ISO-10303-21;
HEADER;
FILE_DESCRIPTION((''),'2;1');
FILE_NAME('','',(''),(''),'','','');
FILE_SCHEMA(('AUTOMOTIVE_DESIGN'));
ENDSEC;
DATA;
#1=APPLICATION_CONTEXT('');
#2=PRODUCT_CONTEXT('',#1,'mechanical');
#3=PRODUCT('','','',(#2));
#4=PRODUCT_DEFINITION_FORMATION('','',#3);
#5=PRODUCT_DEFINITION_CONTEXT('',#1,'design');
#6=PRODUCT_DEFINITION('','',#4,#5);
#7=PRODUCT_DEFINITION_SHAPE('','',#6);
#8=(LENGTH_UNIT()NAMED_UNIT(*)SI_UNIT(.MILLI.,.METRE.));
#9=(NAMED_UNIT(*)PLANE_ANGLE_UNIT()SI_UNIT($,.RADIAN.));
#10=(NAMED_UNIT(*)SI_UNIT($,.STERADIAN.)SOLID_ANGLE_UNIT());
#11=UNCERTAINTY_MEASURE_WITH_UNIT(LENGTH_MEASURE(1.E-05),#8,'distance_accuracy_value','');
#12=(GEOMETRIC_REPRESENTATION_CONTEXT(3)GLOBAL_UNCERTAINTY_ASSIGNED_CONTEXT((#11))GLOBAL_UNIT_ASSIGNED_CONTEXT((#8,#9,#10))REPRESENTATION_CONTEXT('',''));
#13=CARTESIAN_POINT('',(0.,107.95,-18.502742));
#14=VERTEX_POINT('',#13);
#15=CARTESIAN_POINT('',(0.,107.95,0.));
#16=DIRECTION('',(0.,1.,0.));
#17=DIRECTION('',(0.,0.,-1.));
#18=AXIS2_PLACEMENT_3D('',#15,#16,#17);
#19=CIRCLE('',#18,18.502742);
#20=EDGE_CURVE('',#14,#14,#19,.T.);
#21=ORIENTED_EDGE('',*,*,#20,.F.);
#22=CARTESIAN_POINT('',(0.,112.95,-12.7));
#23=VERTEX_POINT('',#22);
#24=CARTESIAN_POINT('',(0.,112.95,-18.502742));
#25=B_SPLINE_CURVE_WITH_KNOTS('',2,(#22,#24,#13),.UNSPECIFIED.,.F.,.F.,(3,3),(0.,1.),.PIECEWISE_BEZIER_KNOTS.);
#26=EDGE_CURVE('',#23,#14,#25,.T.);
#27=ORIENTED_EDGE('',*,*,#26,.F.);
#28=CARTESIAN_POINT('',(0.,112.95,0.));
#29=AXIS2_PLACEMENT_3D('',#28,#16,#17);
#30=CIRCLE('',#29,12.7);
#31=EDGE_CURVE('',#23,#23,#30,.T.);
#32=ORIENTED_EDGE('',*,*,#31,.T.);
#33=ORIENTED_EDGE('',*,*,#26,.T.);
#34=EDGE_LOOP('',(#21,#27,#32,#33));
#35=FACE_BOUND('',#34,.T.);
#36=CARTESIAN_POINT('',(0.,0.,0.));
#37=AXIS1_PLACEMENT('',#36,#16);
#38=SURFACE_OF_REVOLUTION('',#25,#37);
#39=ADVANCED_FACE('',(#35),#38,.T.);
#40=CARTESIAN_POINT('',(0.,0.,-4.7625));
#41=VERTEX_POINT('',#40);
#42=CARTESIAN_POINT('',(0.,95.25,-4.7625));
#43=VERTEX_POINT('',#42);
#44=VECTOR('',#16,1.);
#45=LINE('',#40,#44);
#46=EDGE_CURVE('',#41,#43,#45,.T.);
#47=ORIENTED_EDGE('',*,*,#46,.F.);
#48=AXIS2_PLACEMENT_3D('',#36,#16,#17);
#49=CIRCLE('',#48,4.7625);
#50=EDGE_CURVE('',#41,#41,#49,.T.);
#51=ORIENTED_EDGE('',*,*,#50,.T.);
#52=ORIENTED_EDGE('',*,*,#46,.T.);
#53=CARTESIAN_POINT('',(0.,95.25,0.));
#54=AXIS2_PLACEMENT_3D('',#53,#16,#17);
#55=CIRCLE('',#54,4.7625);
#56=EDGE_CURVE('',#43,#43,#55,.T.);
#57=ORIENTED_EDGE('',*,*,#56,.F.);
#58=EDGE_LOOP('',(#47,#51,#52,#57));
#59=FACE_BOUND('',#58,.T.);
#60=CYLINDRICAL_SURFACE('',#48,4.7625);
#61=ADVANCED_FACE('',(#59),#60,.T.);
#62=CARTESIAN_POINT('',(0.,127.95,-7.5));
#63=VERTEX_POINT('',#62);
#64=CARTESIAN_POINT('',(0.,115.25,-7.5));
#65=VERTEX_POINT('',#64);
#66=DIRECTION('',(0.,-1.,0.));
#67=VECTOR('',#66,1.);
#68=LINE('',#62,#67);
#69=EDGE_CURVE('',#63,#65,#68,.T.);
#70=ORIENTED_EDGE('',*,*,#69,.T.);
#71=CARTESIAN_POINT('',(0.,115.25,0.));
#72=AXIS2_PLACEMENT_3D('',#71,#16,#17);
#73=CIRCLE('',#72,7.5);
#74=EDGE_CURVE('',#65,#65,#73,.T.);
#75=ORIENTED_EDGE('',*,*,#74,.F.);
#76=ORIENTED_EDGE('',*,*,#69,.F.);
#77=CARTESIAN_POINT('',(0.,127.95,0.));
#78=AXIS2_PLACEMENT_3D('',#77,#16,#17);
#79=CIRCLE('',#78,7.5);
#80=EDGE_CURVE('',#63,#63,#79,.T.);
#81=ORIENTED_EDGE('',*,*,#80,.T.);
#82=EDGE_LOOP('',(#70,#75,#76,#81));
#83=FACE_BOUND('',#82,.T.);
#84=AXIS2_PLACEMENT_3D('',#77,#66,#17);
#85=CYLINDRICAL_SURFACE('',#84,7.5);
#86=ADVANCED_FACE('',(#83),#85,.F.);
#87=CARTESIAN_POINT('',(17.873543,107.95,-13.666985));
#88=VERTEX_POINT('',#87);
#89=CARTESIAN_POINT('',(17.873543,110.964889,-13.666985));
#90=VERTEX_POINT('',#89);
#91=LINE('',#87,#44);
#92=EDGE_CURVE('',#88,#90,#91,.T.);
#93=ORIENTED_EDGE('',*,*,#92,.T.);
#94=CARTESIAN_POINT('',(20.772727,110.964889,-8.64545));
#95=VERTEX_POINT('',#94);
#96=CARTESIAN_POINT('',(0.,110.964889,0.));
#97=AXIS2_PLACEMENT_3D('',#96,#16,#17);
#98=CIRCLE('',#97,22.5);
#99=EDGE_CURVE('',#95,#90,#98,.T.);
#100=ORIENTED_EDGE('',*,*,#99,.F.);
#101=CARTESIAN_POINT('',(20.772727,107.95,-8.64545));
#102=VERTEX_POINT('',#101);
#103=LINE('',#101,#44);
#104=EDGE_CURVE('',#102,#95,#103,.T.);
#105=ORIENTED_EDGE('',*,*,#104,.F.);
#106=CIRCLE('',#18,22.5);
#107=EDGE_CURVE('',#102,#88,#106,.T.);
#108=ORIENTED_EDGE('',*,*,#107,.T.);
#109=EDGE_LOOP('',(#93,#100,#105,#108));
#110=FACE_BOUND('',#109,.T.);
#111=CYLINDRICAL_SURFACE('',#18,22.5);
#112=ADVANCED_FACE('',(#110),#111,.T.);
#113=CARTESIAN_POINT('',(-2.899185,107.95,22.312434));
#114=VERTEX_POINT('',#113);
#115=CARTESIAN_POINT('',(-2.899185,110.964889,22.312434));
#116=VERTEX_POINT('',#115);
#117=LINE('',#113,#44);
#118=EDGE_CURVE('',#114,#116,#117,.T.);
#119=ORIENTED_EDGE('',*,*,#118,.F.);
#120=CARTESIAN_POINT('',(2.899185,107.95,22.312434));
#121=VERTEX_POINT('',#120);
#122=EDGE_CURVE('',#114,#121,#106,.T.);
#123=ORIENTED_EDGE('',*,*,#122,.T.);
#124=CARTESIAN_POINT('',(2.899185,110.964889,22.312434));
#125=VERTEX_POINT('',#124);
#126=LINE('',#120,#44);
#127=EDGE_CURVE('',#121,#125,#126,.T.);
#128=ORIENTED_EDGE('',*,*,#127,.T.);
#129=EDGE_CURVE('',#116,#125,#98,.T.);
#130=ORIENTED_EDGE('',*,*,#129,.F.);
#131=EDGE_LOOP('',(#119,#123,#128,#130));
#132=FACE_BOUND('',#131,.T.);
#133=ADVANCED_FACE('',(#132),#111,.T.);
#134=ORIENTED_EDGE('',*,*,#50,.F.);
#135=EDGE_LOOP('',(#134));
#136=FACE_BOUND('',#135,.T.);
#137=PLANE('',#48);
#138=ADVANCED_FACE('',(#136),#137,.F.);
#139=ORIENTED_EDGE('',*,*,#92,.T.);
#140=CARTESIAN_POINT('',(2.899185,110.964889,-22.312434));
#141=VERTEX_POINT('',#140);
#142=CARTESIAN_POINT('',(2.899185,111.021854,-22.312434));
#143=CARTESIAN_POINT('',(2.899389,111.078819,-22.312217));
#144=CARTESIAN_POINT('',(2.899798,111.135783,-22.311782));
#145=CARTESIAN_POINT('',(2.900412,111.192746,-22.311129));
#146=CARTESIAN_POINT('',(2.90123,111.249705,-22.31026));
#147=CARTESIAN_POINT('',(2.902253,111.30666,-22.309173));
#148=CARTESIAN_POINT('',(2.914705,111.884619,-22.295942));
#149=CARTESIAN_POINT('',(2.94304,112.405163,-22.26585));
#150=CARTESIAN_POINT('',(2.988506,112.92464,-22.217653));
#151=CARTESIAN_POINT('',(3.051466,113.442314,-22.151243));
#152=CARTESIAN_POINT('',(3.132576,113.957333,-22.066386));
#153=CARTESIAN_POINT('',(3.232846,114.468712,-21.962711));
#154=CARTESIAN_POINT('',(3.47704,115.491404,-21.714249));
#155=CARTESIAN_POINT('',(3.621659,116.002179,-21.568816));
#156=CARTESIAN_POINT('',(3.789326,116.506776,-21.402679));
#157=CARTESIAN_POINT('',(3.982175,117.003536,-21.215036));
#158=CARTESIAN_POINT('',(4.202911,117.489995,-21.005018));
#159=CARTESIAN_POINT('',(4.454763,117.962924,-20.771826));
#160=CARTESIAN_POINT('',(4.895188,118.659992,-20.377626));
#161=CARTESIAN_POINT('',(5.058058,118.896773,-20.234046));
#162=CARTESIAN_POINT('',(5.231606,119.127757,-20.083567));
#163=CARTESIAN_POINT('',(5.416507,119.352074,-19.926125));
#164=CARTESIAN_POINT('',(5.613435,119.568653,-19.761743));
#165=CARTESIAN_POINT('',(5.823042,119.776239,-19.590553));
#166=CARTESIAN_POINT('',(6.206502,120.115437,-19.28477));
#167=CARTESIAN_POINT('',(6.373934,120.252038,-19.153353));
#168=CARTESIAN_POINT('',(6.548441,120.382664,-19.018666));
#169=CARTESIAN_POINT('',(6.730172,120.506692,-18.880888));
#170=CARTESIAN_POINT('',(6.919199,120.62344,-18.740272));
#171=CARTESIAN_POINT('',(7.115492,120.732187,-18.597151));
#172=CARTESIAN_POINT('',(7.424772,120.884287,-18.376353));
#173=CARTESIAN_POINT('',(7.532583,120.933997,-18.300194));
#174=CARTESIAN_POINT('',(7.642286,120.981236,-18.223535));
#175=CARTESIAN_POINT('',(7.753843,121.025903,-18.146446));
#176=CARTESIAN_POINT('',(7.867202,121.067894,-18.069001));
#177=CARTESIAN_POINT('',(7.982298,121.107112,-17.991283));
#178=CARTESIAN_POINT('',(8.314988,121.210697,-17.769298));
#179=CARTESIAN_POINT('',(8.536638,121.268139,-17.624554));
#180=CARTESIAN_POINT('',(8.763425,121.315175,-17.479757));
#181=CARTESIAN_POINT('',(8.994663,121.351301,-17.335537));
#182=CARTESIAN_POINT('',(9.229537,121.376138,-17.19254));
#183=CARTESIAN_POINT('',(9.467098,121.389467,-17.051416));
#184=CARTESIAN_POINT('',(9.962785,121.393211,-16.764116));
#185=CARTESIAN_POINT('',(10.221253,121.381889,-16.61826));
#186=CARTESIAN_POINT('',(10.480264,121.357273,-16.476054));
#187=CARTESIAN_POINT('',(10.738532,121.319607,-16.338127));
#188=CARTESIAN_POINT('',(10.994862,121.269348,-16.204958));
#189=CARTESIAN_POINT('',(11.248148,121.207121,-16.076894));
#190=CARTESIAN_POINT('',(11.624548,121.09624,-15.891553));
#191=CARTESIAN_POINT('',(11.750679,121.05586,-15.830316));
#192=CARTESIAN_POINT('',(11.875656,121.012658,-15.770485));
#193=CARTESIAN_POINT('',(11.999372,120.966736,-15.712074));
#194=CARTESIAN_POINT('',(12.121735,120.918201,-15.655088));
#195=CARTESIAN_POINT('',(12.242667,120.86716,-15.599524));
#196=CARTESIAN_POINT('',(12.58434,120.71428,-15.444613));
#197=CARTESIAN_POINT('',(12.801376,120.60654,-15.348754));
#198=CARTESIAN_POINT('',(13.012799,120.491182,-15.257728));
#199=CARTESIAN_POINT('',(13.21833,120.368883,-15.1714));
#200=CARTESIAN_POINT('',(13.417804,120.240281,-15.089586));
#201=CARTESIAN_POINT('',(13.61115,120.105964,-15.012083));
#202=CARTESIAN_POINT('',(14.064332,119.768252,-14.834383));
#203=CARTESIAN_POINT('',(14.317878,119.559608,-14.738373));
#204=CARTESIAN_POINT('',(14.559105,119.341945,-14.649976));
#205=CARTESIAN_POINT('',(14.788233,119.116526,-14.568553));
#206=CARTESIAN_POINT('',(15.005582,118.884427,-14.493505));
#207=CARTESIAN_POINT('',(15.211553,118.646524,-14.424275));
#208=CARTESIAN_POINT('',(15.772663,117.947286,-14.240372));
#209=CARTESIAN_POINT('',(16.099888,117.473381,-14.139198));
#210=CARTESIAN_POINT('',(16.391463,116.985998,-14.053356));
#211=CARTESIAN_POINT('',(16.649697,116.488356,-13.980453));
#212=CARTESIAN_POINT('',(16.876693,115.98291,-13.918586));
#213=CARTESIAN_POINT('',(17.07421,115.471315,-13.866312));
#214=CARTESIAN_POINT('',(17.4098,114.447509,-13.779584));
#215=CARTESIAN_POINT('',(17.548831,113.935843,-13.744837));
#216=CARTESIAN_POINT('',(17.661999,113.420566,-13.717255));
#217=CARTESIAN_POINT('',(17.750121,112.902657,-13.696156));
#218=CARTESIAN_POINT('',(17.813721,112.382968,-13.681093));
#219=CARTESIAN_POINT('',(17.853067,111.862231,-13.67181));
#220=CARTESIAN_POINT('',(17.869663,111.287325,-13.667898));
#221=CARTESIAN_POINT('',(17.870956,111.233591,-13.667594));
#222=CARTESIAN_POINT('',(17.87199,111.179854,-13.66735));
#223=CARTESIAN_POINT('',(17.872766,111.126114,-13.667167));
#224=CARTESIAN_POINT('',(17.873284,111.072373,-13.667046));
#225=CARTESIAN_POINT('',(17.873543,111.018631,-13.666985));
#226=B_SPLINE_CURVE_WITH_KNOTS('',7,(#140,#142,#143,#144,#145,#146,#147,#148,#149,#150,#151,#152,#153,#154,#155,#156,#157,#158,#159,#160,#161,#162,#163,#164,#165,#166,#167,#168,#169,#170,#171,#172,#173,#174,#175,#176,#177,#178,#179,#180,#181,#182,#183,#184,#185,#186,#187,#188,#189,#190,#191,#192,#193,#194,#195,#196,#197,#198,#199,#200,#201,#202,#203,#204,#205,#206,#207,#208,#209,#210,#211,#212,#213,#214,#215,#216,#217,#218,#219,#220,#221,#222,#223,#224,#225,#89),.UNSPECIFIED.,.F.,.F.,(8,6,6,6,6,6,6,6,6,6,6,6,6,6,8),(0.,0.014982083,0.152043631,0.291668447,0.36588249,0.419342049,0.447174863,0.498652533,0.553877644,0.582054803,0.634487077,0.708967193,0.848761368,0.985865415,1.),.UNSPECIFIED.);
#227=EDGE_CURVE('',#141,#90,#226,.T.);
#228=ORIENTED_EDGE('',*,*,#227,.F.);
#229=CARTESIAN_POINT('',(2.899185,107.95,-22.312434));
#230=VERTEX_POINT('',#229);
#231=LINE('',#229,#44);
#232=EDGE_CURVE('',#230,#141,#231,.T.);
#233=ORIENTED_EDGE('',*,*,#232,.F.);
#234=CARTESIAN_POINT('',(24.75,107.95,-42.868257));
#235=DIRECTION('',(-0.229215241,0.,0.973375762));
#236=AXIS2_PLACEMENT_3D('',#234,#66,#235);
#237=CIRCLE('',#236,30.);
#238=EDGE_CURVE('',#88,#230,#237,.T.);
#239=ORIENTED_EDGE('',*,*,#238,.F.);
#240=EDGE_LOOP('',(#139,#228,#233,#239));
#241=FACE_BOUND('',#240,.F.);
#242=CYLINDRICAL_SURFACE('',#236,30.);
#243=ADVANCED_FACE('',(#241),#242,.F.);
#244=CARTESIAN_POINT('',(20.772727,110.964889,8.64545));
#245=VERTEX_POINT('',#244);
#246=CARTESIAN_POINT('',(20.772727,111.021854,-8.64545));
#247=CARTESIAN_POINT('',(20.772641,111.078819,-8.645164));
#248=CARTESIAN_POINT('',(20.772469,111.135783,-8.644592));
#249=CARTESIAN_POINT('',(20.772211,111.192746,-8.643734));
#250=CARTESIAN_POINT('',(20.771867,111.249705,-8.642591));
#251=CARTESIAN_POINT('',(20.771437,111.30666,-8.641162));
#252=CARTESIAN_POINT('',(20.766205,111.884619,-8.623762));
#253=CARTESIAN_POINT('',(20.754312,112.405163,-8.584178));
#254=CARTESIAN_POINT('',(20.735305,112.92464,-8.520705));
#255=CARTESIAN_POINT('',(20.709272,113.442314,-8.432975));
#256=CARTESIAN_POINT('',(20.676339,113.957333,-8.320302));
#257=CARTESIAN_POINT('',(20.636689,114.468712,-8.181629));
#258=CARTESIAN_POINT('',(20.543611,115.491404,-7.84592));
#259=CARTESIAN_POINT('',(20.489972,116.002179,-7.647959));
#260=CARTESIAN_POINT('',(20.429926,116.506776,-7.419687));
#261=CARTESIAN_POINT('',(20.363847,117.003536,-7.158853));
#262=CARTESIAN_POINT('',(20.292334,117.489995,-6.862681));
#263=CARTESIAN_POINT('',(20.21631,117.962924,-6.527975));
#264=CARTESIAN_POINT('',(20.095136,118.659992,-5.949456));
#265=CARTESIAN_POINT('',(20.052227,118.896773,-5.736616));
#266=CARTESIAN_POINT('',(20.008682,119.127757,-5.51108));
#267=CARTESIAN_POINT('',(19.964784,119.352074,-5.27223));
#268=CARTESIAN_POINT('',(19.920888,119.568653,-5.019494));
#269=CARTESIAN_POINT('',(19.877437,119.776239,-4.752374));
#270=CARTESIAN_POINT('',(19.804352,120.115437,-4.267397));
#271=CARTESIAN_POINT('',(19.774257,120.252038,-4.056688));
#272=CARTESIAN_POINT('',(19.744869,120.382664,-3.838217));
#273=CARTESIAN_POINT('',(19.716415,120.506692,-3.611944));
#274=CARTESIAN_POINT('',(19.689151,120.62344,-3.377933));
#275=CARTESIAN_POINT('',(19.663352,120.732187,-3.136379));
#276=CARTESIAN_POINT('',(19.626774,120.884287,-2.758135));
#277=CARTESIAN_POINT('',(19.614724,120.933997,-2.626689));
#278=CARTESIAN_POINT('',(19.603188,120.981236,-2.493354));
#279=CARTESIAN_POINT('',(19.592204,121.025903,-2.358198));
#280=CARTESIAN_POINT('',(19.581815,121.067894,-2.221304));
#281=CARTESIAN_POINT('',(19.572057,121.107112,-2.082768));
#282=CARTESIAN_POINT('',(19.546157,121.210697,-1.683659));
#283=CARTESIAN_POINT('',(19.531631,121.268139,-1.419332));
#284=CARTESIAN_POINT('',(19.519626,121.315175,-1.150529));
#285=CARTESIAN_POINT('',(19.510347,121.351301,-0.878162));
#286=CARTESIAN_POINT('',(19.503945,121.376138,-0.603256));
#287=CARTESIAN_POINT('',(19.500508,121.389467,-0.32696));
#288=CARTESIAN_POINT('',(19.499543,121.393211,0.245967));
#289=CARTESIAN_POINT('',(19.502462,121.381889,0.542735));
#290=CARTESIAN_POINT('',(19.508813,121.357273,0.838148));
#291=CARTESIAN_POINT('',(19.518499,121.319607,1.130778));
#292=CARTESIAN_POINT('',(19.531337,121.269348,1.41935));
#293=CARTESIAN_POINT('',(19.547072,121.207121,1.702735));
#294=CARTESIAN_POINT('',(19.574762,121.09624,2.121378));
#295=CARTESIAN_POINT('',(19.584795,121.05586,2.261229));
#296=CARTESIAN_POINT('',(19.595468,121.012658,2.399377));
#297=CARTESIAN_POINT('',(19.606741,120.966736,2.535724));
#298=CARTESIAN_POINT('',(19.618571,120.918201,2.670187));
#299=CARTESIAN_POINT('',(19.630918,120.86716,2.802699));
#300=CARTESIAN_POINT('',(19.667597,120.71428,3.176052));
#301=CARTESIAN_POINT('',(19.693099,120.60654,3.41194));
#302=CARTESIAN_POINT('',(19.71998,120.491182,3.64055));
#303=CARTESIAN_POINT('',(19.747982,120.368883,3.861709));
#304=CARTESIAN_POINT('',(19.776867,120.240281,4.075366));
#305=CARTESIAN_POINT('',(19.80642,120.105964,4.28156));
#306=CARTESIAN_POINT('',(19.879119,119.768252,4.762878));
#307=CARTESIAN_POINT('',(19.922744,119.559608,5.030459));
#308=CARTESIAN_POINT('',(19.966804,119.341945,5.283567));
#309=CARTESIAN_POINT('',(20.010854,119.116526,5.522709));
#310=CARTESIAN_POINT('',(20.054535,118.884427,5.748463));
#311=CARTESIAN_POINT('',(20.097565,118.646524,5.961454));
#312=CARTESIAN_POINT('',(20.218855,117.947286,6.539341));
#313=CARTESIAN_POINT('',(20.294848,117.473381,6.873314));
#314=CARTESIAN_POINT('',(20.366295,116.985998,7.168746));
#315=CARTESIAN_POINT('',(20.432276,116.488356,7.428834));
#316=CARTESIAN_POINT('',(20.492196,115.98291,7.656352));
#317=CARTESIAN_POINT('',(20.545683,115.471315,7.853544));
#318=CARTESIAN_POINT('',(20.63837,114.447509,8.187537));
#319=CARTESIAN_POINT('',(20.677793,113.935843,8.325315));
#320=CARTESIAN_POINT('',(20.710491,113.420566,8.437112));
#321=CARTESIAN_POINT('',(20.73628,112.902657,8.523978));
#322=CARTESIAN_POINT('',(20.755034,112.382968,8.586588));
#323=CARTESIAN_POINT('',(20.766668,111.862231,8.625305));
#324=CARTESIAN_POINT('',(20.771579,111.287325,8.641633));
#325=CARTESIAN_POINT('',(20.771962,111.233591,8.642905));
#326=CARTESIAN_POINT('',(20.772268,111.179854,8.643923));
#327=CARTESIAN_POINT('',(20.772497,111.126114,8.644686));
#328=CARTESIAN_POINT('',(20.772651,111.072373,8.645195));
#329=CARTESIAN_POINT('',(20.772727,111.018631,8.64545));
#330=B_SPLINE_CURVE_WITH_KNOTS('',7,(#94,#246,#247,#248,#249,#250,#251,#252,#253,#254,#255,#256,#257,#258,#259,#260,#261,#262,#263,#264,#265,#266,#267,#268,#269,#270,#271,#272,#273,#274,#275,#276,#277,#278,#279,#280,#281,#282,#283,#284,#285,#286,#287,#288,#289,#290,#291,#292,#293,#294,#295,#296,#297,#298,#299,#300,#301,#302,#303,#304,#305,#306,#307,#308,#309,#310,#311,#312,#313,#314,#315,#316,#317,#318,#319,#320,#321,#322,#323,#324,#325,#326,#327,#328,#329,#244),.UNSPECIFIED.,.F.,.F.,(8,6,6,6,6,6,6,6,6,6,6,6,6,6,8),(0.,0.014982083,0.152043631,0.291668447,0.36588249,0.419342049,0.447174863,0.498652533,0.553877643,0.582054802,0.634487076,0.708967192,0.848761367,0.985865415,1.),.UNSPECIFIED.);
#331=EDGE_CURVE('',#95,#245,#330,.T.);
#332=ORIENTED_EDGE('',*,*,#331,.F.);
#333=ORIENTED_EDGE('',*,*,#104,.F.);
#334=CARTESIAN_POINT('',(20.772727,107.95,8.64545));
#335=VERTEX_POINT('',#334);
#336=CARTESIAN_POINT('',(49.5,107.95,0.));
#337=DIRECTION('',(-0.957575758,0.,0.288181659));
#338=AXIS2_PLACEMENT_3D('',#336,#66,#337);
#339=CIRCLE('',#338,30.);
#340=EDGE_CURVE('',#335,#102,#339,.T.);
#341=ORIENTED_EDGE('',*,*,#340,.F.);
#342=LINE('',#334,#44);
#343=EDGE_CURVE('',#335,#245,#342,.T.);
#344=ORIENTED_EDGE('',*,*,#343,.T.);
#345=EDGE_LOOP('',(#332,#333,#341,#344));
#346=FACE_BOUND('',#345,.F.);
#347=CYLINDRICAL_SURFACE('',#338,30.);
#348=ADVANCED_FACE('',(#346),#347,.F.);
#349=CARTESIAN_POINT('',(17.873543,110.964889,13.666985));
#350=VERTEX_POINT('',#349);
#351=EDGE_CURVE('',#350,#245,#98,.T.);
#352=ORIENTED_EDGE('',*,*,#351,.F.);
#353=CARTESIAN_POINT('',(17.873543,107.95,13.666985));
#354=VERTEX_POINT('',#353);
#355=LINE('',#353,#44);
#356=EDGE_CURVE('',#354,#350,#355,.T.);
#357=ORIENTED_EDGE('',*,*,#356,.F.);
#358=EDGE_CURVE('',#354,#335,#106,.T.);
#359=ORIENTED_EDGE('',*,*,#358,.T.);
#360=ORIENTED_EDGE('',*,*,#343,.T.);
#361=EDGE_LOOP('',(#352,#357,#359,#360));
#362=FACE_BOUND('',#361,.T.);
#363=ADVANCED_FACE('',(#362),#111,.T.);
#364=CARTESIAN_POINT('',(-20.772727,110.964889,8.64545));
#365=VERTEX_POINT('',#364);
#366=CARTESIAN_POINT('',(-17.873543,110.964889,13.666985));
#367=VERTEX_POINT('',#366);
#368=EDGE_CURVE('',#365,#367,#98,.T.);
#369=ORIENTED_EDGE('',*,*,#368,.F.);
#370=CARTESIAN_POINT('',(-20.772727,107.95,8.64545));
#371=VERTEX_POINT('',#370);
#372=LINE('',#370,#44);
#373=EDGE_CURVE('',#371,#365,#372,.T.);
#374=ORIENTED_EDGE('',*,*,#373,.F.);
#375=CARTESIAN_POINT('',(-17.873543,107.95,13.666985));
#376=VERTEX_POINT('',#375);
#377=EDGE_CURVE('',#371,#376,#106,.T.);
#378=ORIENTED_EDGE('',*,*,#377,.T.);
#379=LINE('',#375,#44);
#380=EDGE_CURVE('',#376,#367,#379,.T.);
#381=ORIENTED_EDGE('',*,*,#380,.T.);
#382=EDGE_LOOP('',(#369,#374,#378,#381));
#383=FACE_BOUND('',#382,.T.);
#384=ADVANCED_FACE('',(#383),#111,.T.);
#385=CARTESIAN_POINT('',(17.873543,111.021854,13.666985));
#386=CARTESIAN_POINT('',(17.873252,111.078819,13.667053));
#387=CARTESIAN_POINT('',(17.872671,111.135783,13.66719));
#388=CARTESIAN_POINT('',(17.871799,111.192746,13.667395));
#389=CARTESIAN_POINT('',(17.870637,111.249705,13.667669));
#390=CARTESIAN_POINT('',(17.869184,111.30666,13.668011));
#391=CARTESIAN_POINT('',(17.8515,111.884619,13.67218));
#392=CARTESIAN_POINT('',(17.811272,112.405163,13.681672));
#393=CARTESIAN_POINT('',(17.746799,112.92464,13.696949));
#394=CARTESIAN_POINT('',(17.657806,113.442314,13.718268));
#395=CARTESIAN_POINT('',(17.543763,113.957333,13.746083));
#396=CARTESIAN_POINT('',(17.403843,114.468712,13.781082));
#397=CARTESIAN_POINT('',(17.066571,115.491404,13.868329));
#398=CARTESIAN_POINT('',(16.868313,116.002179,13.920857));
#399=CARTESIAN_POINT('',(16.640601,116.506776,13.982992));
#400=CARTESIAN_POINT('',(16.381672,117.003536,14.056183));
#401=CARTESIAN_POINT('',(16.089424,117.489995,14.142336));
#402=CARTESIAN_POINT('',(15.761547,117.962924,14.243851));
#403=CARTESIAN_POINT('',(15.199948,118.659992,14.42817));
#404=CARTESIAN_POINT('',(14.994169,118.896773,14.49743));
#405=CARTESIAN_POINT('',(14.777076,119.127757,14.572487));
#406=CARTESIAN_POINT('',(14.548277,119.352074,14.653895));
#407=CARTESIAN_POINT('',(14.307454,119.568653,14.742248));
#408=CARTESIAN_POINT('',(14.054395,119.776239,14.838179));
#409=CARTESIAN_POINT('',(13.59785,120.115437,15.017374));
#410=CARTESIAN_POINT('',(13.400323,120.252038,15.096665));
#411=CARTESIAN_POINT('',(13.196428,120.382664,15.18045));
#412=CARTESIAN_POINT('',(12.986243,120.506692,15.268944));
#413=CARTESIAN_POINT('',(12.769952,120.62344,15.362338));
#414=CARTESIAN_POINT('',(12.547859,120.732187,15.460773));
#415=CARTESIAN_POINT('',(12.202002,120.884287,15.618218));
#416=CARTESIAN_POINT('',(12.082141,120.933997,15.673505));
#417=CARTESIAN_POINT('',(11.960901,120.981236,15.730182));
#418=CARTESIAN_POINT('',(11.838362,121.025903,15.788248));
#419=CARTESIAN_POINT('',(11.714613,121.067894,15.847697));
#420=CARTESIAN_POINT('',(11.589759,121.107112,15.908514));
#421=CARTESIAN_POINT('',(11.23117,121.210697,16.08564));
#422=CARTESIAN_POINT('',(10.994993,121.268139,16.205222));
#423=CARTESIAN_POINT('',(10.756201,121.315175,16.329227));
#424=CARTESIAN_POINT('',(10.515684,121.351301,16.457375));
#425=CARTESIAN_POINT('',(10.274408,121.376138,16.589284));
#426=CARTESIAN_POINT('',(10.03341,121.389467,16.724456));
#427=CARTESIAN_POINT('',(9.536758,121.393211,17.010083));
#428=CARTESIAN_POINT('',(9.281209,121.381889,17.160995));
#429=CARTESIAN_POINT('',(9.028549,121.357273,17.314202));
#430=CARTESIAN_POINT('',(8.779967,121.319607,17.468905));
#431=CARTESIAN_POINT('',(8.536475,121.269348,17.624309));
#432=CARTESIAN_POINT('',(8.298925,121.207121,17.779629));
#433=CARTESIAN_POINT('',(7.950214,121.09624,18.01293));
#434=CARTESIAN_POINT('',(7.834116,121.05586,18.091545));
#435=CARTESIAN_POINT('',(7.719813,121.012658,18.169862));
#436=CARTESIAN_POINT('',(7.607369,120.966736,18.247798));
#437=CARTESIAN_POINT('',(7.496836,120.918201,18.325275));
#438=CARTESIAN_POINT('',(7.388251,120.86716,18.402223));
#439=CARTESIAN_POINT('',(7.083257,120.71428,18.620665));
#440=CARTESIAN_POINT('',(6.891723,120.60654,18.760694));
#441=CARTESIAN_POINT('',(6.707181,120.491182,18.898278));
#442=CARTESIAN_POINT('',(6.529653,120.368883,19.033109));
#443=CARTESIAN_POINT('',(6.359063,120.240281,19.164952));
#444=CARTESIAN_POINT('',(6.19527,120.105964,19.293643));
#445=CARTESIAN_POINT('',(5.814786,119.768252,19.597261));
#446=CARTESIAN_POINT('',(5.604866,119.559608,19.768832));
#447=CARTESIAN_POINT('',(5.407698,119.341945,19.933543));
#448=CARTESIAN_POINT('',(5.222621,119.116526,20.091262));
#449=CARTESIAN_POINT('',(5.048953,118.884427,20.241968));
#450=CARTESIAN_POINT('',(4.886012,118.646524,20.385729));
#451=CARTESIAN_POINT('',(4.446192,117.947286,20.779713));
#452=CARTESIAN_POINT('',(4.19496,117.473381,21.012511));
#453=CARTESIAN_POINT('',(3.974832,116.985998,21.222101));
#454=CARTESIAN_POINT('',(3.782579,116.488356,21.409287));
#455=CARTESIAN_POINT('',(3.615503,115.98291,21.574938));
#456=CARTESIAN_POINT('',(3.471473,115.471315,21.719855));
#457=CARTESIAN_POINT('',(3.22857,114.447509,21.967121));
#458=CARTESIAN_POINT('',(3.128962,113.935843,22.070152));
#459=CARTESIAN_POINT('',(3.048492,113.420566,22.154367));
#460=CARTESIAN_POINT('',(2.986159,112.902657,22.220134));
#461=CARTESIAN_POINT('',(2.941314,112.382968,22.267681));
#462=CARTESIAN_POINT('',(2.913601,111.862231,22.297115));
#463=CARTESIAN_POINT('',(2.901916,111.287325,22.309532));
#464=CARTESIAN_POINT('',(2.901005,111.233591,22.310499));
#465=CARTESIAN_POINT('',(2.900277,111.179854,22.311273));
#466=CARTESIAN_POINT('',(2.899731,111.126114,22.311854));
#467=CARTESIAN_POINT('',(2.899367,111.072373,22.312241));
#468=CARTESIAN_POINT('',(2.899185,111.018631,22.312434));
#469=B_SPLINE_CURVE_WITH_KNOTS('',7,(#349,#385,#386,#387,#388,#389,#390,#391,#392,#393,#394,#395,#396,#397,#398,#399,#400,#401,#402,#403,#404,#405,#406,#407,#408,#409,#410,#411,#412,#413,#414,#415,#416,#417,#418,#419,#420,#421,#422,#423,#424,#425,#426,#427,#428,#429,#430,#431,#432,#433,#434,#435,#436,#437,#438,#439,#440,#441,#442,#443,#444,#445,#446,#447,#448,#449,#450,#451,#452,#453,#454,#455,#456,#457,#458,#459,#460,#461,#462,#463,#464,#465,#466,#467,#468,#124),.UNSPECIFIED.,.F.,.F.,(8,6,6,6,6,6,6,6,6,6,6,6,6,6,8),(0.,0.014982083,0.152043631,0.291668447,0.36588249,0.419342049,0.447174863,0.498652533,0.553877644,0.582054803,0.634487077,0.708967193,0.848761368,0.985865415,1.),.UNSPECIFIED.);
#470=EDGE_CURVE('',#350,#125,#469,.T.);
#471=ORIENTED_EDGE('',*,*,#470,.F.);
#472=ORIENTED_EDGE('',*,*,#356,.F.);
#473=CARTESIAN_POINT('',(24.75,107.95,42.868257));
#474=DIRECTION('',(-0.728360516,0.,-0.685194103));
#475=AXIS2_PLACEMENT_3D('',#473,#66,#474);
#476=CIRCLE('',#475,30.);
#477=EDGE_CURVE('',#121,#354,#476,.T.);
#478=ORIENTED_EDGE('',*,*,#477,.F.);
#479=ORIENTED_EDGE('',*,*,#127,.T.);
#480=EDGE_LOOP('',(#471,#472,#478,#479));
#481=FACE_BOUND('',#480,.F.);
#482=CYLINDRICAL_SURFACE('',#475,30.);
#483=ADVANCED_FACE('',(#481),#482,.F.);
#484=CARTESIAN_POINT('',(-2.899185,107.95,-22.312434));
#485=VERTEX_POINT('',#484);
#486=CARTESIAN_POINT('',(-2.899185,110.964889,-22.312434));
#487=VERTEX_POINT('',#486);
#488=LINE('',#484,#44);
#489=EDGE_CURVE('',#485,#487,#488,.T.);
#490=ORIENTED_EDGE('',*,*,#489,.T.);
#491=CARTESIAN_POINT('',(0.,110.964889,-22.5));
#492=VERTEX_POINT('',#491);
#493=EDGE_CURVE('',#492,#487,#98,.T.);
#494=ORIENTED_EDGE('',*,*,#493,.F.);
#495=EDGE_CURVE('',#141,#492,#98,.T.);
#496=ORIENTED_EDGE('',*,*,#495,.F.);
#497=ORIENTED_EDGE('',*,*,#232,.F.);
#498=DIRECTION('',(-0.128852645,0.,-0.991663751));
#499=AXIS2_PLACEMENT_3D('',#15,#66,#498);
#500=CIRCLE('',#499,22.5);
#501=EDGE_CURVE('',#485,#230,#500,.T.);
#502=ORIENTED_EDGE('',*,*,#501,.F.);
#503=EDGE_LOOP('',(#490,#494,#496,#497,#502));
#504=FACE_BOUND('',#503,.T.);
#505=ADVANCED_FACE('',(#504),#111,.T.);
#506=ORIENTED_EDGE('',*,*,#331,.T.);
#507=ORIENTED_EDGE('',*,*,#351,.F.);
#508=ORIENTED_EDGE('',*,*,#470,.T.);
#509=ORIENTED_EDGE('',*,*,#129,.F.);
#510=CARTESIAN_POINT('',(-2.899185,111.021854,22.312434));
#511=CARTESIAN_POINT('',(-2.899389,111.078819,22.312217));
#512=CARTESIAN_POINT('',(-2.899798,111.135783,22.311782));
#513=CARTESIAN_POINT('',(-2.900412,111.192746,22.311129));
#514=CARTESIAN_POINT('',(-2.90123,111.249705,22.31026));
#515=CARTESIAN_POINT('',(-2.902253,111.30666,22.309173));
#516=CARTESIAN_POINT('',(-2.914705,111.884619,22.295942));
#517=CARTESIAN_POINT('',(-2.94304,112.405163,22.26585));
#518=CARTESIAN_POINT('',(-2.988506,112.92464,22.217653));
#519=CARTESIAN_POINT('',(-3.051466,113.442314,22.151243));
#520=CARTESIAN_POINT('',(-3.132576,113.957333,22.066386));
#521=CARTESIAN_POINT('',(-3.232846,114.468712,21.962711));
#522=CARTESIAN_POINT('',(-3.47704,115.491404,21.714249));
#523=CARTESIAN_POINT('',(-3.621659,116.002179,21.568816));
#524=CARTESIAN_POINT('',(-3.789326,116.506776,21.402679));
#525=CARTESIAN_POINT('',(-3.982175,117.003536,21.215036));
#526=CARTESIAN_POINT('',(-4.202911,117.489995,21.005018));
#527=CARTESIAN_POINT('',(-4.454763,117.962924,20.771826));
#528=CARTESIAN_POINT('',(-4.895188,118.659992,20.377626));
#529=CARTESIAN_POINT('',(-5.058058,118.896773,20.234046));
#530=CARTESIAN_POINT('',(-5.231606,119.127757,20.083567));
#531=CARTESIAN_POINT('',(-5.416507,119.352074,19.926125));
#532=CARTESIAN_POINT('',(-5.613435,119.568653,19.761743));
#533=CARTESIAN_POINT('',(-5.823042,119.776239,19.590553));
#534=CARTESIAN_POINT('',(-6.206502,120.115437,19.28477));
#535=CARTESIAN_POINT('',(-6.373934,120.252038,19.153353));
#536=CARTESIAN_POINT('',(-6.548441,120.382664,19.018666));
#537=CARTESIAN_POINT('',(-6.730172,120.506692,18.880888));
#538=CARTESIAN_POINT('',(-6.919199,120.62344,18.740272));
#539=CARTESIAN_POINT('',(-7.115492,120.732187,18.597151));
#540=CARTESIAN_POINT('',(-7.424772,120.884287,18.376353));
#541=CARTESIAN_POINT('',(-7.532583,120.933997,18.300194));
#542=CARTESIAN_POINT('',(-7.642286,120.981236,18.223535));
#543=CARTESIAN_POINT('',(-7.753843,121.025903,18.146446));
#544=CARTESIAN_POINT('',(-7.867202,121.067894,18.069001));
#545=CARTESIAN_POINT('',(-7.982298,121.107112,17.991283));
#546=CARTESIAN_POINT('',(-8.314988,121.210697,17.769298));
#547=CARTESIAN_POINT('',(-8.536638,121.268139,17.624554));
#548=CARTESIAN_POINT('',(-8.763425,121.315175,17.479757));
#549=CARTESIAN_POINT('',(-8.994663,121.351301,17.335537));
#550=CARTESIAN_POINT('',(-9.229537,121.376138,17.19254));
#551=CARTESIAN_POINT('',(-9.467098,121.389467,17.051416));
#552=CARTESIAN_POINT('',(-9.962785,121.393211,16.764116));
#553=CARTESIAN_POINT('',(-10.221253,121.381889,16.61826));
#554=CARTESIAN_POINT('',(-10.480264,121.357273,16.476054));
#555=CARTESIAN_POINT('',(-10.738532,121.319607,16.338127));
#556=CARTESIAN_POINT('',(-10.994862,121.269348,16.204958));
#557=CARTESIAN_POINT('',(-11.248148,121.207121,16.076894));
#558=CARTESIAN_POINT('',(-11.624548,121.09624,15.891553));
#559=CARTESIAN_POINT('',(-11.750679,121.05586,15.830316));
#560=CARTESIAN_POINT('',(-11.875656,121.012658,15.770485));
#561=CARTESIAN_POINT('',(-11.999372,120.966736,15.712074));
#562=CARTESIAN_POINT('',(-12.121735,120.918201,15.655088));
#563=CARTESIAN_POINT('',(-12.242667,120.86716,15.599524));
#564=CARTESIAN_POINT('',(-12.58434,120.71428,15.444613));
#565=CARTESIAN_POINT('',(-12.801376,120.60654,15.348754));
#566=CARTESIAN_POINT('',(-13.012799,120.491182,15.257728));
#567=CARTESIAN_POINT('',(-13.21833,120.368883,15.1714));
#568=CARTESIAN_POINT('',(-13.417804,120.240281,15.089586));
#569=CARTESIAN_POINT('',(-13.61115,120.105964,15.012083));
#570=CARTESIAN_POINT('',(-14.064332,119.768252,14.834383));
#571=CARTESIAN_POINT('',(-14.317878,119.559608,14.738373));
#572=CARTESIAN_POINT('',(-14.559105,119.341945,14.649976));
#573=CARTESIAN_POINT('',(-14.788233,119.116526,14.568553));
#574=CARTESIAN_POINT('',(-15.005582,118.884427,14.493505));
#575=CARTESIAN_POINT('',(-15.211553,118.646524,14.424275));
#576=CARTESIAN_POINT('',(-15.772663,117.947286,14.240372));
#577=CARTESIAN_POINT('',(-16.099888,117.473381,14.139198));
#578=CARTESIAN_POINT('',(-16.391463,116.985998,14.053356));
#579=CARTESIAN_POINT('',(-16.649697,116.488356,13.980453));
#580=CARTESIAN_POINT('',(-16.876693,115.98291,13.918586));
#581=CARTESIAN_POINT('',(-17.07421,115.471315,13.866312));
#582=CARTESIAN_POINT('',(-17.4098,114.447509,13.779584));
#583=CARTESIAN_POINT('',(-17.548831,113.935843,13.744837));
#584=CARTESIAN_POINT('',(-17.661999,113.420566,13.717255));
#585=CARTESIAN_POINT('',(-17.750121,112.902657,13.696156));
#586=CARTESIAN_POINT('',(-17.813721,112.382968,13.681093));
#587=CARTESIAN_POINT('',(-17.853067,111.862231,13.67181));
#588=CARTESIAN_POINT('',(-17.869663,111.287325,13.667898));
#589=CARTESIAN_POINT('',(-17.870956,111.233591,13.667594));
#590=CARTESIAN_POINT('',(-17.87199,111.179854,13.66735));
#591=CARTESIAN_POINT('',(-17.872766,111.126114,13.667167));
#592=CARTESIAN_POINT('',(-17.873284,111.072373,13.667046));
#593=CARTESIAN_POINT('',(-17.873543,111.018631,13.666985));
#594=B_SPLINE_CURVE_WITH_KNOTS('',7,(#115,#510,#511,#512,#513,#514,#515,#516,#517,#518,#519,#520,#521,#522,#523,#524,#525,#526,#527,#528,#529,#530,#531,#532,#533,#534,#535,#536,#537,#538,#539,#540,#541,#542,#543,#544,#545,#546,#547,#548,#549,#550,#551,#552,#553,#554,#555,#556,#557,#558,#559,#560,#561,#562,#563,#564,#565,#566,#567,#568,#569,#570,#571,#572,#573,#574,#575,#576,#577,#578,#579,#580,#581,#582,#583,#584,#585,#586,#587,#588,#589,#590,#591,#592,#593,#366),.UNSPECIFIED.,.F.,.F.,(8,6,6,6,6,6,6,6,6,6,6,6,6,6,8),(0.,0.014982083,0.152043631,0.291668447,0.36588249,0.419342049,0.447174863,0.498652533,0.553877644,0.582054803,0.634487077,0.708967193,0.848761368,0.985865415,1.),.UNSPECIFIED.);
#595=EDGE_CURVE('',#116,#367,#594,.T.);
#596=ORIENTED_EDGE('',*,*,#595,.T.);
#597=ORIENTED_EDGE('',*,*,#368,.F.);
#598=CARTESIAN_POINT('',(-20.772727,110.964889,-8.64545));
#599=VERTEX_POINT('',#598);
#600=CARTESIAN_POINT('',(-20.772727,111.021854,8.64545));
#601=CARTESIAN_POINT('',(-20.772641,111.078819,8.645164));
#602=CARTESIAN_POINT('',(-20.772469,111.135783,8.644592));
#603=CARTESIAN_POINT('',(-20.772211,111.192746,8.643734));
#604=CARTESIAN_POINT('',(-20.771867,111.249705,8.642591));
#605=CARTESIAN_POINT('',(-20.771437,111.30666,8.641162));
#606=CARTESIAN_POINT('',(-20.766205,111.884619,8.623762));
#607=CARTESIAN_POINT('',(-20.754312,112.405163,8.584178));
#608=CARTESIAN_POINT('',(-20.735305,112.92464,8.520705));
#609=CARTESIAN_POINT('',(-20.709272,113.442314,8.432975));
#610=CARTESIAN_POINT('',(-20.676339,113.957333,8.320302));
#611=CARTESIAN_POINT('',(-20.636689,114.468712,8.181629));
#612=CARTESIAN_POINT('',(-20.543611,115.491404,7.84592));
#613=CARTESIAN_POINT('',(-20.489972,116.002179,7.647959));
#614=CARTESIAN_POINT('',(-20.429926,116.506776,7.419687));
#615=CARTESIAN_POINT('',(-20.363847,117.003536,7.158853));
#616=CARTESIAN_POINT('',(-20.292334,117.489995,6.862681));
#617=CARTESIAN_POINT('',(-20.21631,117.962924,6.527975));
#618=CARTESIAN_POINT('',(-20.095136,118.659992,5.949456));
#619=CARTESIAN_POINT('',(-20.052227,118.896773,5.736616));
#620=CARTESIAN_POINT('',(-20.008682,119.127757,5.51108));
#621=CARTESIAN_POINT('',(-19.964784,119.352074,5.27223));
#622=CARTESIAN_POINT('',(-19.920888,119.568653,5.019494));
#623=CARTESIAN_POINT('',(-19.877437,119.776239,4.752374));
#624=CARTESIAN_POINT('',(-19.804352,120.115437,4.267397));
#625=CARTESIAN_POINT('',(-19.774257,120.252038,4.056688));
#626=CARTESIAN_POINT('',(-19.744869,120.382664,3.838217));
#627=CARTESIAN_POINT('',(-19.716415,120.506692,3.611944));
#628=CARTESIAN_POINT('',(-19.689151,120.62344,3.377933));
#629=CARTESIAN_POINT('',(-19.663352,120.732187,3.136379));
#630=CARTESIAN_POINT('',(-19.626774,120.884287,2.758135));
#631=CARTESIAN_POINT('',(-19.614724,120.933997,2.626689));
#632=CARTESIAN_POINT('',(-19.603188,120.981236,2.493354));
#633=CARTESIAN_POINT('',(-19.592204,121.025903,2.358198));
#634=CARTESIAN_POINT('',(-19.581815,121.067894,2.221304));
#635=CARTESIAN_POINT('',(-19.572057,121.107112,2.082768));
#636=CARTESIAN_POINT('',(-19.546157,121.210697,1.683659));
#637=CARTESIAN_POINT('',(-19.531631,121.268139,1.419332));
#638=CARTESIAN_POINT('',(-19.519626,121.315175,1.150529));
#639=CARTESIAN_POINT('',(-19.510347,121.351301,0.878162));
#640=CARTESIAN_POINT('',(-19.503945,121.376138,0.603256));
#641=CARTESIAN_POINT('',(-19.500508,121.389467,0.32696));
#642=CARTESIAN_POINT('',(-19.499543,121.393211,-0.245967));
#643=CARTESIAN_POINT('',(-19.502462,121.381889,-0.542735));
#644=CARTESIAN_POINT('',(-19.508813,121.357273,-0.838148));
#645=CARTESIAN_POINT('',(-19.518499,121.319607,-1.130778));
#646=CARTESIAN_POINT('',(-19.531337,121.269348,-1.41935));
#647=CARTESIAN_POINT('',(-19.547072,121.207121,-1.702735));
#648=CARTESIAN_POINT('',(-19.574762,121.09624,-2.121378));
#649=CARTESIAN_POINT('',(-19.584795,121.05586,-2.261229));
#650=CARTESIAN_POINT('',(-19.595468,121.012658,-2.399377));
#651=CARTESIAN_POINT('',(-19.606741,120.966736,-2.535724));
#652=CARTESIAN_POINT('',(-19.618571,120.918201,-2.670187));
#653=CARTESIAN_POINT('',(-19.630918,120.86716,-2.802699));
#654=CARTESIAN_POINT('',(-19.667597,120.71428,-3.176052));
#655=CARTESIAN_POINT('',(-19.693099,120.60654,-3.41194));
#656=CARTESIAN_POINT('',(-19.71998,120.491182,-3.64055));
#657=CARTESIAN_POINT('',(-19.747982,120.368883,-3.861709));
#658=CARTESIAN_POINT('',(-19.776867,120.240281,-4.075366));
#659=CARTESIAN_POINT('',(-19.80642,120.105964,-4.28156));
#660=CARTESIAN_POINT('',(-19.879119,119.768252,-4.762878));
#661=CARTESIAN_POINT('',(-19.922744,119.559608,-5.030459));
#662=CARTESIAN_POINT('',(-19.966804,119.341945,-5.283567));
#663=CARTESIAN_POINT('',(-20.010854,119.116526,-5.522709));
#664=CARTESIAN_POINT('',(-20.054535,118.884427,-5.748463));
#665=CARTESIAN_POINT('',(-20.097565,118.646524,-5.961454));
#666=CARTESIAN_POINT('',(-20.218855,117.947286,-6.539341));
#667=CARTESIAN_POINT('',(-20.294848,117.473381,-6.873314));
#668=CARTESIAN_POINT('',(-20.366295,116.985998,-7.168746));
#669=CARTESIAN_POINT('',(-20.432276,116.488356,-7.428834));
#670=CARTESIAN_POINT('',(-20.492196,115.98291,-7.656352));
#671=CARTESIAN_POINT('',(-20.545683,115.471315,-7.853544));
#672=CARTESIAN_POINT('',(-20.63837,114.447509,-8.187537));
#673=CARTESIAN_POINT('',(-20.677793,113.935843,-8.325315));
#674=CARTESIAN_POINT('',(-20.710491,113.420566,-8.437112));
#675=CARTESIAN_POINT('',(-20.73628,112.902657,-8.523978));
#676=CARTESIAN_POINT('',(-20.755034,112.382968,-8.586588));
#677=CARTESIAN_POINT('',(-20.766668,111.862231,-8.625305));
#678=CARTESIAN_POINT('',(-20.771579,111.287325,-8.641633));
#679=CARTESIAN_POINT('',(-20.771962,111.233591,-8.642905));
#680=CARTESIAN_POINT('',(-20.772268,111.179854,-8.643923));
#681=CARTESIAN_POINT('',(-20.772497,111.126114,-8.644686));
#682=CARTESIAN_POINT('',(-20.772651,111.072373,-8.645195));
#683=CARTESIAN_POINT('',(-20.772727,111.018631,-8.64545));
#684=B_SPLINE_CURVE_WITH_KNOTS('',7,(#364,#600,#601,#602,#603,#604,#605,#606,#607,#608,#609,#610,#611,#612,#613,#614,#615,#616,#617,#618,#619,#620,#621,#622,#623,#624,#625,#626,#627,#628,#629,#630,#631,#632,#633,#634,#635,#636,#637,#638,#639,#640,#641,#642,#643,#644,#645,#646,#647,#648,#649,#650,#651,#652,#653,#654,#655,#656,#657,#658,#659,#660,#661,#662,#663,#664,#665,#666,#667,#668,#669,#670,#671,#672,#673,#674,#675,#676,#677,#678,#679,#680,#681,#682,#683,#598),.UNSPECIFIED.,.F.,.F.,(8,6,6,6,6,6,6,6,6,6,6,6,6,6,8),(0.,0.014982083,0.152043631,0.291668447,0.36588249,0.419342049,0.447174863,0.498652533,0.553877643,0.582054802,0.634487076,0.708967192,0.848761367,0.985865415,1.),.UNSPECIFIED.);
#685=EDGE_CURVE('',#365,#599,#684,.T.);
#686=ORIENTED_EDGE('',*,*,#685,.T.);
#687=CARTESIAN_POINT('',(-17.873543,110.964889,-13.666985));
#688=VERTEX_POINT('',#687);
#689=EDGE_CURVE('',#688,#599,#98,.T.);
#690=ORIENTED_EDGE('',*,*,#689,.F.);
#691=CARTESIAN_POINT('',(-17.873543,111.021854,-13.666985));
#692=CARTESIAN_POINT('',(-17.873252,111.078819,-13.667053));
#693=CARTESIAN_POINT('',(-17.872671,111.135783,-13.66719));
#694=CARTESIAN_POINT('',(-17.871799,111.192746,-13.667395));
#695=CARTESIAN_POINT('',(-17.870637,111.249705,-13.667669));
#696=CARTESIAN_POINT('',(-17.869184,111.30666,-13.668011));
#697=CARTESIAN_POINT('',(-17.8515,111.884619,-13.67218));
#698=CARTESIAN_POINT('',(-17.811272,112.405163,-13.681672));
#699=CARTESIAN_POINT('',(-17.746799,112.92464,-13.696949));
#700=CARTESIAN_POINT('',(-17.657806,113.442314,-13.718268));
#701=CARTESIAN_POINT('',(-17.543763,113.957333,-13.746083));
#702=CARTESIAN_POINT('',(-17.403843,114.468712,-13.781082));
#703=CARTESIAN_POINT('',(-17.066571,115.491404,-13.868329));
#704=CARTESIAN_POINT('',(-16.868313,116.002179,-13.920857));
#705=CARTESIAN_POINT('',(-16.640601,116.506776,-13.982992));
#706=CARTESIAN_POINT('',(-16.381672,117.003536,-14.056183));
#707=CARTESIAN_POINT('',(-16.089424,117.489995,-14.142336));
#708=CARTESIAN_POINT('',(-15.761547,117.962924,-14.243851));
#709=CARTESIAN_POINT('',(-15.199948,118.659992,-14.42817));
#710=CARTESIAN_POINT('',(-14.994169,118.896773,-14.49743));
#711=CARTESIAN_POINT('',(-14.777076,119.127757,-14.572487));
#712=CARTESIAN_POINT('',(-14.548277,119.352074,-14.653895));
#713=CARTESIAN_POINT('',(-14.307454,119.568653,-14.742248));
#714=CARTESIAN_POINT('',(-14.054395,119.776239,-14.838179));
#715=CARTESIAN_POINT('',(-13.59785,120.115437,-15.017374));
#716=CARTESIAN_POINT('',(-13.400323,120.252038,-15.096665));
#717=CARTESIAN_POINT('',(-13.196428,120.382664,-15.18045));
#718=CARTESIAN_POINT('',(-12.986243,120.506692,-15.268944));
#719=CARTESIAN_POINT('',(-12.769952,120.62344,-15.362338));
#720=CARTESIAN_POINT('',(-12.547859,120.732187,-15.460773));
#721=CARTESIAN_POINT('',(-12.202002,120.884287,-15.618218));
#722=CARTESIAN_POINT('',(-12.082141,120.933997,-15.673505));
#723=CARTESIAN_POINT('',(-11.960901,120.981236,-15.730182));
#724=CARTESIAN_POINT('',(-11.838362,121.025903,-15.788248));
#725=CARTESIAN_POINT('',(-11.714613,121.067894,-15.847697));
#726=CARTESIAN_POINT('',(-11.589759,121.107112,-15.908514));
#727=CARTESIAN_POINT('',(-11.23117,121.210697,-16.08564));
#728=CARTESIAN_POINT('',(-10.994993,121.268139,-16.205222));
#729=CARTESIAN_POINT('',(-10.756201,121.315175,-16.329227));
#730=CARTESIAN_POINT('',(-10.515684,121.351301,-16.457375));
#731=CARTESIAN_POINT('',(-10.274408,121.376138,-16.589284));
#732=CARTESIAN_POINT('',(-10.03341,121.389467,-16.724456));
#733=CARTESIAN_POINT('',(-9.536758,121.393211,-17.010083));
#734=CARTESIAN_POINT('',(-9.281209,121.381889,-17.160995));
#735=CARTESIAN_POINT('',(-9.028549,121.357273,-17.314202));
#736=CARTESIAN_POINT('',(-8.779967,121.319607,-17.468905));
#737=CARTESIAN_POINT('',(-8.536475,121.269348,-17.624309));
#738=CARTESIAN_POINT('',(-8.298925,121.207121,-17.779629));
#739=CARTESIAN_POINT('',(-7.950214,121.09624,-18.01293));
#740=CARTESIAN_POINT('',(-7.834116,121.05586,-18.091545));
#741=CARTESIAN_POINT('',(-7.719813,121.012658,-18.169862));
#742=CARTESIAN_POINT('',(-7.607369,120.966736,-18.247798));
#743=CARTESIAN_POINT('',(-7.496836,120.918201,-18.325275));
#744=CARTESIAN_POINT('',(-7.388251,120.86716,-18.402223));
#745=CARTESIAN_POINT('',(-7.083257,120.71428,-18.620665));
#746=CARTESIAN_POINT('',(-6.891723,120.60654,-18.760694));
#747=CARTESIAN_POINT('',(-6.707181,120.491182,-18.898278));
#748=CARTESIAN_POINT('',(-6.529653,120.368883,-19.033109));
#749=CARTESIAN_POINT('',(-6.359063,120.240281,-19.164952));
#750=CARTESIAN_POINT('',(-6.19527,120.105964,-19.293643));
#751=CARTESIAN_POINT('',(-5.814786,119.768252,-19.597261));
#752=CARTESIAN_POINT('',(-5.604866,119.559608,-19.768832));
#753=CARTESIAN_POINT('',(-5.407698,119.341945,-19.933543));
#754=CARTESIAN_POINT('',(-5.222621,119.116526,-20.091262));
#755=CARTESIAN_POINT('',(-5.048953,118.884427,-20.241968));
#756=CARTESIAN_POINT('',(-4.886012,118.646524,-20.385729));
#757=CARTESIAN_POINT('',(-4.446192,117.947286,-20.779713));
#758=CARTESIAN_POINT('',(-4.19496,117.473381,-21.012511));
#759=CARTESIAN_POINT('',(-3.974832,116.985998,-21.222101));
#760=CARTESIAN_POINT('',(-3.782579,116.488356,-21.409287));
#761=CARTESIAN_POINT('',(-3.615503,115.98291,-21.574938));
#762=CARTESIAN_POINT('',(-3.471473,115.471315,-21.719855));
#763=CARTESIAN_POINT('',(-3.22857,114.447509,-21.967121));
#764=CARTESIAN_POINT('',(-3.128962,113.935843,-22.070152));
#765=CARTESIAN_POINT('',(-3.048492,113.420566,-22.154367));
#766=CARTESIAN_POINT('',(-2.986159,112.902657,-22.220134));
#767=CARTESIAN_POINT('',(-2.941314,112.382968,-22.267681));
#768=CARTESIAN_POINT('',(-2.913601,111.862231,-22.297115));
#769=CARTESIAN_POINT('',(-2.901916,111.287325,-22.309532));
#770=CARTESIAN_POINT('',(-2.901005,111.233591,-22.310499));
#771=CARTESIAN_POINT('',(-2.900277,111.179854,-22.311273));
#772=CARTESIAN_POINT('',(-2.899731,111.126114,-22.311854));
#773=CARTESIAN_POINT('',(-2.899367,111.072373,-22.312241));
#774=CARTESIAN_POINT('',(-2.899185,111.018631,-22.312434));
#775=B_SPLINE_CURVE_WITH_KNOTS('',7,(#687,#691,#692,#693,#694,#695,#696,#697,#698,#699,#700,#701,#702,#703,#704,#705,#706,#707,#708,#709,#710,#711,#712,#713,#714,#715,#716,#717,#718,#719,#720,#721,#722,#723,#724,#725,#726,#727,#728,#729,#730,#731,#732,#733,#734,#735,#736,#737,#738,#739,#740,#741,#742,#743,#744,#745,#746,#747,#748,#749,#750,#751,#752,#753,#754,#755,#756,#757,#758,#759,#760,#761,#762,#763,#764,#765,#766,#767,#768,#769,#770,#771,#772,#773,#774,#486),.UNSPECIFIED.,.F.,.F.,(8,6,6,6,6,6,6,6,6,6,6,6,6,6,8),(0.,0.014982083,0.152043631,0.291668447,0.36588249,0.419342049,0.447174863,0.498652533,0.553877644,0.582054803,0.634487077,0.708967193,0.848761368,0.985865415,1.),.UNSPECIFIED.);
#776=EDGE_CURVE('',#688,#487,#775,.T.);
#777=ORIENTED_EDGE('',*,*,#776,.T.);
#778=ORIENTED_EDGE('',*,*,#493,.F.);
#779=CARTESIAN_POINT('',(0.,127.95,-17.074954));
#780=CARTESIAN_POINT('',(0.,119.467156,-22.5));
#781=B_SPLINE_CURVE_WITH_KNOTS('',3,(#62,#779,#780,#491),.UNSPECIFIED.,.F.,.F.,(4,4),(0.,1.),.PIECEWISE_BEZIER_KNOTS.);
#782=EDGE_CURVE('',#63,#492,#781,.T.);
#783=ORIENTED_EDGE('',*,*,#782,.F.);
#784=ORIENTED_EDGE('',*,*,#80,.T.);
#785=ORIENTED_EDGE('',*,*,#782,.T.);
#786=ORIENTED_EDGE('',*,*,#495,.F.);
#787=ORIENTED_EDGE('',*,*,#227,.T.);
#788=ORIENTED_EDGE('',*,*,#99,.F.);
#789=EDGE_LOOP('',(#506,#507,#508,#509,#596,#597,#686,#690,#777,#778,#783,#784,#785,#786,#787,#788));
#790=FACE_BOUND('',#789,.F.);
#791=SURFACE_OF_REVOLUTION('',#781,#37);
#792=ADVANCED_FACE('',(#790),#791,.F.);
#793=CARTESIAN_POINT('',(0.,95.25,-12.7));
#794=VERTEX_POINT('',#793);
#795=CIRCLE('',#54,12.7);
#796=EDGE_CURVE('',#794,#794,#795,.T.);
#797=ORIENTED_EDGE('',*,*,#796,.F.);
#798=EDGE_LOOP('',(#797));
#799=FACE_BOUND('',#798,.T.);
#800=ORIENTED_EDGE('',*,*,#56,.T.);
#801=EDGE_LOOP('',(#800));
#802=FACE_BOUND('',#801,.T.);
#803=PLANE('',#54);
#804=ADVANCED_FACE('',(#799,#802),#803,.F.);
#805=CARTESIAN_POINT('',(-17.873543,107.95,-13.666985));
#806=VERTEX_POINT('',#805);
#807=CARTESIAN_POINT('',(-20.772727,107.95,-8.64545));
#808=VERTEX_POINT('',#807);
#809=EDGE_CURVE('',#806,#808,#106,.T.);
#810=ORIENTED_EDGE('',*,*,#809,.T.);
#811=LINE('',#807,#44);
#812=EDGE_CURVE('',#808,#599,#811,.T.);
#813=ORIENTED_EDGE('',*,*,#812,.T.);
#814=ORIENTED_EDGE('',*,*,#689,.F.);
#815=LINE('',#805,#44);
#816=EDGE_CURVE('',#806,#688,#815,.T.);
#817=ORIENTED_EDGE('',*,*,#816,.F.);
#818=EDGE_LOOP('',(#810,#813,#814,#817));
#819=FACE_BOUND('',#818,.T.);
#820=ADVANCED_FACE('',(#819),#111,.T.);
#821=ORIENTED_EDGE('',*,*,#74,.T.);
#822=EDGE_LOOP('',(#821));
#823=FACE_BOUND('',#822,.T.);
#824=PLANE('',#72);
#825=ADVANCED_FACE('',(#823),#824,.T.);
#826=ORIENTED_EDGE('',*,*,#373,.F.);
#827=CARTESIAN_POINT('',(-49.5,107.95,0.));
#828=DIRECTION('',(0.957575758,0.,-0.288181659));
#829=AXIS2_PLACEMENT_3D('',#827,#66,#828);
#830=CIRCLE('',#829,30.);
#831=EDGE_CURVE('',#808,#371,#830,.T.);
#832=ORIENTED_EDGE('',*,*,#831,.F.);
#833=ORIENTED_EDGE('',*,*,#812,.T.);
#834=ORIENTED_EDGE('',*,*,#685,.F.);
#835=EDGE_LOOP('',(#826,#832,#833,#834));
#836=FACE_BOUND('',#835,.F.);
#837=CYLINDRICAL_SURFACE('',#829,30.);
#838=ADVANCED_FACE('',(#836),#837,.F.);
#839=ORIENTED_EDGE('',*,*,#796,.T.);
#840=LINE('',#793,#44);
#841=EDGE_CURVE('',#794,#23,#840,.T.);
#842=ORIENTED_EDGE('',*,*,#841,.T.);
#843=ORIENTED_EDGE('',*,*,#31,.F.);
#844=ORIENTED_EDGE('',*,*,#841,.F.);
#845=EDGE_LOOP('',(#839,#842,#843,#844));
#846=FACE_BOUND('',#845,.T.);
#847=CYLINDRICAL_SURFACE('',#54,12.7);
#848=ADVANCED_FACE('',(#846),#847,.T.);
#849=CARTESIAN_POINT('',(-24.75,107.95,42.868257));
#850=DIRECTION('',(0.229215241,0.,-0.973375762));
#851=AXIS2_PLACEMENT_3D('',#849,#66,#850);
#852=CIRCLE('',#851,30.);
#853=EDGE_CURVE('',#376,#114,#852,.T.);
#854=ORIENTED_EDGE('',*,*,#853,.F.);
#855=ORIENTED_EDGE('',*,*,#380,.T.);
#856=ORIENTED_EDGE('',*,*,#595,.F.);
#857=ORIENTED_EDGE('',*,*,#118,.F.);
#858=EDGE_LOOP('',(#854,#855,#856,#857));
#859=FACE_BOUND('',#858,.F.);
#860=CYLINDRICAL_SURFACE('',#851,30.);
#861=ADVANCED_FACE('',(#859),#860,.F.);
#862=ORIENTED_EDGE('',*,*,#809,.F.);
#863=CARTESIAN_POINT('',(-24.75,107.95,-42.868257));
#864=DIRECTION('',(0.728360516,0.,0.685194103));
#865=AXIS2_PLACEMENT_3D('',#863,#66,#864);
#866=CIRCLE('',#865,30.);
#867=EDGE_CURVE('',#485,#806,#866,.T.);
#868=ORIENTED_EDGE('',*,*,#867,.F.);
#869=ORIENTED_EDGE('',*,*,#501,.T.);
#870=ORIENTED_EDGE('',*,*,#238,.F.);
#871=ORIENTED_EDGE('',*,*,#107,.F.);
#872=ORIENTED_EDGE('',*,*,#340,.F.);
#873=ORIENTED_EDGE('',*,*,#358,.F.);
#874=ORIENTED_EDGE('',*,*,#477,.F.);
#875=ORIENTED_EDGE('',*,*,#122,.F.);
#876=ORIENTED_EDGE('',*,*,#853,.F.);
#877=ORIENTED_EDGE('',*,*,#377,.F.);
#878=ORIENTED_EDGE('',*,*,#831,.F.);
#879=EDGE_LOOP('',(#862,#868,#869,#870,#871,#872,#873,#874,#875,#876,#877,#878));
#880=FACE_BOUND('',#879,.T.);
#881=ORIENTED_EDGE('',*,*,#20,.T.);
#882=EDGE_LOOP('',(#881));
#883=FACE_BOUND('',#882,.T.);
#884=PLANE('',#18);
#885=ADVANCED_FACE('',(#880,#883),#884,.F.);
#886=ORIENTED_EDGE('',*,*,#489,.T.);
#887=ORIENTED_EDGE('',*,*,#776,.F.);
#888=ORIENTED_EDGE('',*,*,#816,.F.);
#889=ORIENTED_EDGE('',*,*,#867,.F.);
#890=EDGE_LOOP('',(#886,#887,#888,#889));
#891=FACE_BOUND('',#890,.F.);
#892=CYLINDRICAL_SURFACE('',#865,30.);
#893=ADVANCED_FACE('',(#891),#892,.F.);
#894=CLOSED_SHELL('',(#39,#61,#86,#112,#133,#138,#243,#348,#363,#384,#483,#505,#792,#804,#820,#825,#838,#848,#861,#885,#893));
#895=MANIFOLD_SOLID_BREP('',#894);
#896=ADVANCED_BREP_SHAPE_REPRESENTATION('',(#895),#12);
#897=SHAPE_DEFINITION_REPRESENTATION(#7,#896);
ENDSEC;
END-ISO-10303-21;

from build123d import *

# Parameters (mm, degrees)
CORTAR_EXTRUIR1_DEPTH = 113.54200331


with BuildPart() as part:
    # Croquis2 → Revolución1 (revolve)
    with BuildSketch(Plane.XY, mode=Mode.PRIVATE) as revoluci_n1_sk:
        with BuildLine():
            Line((4.7625, 95.25), (12.7, 95.25))
            Line((12.7, 95.25), (12.7, 112.95))
            add(Edge.make_bspline(
                [(12.7, 112.95), (18.502741551, 112.95), (18.502741551, 107.95)],
                knots=[0, 0, 0, 1, 1, 1], degree=2))
            Line((18.502741551, 107.95), (22.5, 107.95))
            Line((22.5, 107.95), (22.5, 110.964889394))
            add(Edge.make_bspline(
                [(7.5, 127.95), (17.074954072, 127.95), (22.5, 119.467155594), (22.5, 110.964889394)],
                knots=[0, 0, 0, 0, 1, 1, 1, 1], degree=3))
            Line((7.5, 127.95), (7.5, 115.25))
            Line((7.5, 115.25), (0, 115.25))
            Line((0, 115.25), (0, 0))
            Line((0, 0), (4.7625, 0))
            Line((4.7625, 0), (4.7625, 95.25))
        make_face()
    revolve(revoluci_n1_sk.sketch.rotate(Axis((0, 0, 0), (0, 1, 0)), 90), axis=Axis((0, 0, 0), (0, 1, 0)))

    # Croquis3 → Cortar-Extruir1 (cut, through all)
    with BuildSketch(Plane.XZ.offset(-107.95)):
        with BuildLine():
            ThreePointArc((20.772727273, 8.645449766), (19.5, 0), (20.772727273, -8.645449766))
            ThreePointArc((20.772727273, -8.645449766), (22.5, 0), (20.772727273, 8.645449766))
        make_face()
        with BuildLine():
            ThreePointArc((17.873542761, -13.666984641), (9.75, -16.887495374), (2.899184512, -22.312434407))
            ThreePointArc((2.899184512, -22.312434407), (11.25, -19.485571585), (17.873542761, -13.666984641))
        make_face()
        with BuildLine():
            ThreePointArc((-2.899184512, -22.312434407), (-9.75, -16.887495374), (-17.873542761, -13.666984641))
            ThreePointArc((-17.873542761, -13.666984641), (-11.25, -19.485571585), (-2.899184512, -22.312434407))
        make_face()
        with BuildLine():
            ThreePointArc((-20.772727273, -8.645449766), (-19.5, 0), (-20.772727273, 8.645449766))
            ThreePointArc((-20.772727273, 8.645449766), (-22.5, 0), (-20.772727273, -8.645449766))
        make_face()
        with BuildLine():
            ThreePointArc((-17.873542761, 13.666984641), (-9.75, 16.887495374), (-2.899184512, 22.312434407))
            ThreePointArc((-2.899184512, 22.312434407), (-11.25, 19.485571585), (-17.873542761, 13.666984641))
        make_face()
        with BuildLine():
            ThreePointArc((2.899184512, 22.312434407), (9.75, 16.887495374), (17.873542761, 13.666984641))
            ThreePointArc((17.873542761, 13.666984641), (11.25, 19.485571585), (2.899184512, 22.312434407))
        make_face()
    extrude(amount=-CORTAR_EXTRUIR1_DEPTH, mode=Mode.SUBTRACT)


solid = part.part
